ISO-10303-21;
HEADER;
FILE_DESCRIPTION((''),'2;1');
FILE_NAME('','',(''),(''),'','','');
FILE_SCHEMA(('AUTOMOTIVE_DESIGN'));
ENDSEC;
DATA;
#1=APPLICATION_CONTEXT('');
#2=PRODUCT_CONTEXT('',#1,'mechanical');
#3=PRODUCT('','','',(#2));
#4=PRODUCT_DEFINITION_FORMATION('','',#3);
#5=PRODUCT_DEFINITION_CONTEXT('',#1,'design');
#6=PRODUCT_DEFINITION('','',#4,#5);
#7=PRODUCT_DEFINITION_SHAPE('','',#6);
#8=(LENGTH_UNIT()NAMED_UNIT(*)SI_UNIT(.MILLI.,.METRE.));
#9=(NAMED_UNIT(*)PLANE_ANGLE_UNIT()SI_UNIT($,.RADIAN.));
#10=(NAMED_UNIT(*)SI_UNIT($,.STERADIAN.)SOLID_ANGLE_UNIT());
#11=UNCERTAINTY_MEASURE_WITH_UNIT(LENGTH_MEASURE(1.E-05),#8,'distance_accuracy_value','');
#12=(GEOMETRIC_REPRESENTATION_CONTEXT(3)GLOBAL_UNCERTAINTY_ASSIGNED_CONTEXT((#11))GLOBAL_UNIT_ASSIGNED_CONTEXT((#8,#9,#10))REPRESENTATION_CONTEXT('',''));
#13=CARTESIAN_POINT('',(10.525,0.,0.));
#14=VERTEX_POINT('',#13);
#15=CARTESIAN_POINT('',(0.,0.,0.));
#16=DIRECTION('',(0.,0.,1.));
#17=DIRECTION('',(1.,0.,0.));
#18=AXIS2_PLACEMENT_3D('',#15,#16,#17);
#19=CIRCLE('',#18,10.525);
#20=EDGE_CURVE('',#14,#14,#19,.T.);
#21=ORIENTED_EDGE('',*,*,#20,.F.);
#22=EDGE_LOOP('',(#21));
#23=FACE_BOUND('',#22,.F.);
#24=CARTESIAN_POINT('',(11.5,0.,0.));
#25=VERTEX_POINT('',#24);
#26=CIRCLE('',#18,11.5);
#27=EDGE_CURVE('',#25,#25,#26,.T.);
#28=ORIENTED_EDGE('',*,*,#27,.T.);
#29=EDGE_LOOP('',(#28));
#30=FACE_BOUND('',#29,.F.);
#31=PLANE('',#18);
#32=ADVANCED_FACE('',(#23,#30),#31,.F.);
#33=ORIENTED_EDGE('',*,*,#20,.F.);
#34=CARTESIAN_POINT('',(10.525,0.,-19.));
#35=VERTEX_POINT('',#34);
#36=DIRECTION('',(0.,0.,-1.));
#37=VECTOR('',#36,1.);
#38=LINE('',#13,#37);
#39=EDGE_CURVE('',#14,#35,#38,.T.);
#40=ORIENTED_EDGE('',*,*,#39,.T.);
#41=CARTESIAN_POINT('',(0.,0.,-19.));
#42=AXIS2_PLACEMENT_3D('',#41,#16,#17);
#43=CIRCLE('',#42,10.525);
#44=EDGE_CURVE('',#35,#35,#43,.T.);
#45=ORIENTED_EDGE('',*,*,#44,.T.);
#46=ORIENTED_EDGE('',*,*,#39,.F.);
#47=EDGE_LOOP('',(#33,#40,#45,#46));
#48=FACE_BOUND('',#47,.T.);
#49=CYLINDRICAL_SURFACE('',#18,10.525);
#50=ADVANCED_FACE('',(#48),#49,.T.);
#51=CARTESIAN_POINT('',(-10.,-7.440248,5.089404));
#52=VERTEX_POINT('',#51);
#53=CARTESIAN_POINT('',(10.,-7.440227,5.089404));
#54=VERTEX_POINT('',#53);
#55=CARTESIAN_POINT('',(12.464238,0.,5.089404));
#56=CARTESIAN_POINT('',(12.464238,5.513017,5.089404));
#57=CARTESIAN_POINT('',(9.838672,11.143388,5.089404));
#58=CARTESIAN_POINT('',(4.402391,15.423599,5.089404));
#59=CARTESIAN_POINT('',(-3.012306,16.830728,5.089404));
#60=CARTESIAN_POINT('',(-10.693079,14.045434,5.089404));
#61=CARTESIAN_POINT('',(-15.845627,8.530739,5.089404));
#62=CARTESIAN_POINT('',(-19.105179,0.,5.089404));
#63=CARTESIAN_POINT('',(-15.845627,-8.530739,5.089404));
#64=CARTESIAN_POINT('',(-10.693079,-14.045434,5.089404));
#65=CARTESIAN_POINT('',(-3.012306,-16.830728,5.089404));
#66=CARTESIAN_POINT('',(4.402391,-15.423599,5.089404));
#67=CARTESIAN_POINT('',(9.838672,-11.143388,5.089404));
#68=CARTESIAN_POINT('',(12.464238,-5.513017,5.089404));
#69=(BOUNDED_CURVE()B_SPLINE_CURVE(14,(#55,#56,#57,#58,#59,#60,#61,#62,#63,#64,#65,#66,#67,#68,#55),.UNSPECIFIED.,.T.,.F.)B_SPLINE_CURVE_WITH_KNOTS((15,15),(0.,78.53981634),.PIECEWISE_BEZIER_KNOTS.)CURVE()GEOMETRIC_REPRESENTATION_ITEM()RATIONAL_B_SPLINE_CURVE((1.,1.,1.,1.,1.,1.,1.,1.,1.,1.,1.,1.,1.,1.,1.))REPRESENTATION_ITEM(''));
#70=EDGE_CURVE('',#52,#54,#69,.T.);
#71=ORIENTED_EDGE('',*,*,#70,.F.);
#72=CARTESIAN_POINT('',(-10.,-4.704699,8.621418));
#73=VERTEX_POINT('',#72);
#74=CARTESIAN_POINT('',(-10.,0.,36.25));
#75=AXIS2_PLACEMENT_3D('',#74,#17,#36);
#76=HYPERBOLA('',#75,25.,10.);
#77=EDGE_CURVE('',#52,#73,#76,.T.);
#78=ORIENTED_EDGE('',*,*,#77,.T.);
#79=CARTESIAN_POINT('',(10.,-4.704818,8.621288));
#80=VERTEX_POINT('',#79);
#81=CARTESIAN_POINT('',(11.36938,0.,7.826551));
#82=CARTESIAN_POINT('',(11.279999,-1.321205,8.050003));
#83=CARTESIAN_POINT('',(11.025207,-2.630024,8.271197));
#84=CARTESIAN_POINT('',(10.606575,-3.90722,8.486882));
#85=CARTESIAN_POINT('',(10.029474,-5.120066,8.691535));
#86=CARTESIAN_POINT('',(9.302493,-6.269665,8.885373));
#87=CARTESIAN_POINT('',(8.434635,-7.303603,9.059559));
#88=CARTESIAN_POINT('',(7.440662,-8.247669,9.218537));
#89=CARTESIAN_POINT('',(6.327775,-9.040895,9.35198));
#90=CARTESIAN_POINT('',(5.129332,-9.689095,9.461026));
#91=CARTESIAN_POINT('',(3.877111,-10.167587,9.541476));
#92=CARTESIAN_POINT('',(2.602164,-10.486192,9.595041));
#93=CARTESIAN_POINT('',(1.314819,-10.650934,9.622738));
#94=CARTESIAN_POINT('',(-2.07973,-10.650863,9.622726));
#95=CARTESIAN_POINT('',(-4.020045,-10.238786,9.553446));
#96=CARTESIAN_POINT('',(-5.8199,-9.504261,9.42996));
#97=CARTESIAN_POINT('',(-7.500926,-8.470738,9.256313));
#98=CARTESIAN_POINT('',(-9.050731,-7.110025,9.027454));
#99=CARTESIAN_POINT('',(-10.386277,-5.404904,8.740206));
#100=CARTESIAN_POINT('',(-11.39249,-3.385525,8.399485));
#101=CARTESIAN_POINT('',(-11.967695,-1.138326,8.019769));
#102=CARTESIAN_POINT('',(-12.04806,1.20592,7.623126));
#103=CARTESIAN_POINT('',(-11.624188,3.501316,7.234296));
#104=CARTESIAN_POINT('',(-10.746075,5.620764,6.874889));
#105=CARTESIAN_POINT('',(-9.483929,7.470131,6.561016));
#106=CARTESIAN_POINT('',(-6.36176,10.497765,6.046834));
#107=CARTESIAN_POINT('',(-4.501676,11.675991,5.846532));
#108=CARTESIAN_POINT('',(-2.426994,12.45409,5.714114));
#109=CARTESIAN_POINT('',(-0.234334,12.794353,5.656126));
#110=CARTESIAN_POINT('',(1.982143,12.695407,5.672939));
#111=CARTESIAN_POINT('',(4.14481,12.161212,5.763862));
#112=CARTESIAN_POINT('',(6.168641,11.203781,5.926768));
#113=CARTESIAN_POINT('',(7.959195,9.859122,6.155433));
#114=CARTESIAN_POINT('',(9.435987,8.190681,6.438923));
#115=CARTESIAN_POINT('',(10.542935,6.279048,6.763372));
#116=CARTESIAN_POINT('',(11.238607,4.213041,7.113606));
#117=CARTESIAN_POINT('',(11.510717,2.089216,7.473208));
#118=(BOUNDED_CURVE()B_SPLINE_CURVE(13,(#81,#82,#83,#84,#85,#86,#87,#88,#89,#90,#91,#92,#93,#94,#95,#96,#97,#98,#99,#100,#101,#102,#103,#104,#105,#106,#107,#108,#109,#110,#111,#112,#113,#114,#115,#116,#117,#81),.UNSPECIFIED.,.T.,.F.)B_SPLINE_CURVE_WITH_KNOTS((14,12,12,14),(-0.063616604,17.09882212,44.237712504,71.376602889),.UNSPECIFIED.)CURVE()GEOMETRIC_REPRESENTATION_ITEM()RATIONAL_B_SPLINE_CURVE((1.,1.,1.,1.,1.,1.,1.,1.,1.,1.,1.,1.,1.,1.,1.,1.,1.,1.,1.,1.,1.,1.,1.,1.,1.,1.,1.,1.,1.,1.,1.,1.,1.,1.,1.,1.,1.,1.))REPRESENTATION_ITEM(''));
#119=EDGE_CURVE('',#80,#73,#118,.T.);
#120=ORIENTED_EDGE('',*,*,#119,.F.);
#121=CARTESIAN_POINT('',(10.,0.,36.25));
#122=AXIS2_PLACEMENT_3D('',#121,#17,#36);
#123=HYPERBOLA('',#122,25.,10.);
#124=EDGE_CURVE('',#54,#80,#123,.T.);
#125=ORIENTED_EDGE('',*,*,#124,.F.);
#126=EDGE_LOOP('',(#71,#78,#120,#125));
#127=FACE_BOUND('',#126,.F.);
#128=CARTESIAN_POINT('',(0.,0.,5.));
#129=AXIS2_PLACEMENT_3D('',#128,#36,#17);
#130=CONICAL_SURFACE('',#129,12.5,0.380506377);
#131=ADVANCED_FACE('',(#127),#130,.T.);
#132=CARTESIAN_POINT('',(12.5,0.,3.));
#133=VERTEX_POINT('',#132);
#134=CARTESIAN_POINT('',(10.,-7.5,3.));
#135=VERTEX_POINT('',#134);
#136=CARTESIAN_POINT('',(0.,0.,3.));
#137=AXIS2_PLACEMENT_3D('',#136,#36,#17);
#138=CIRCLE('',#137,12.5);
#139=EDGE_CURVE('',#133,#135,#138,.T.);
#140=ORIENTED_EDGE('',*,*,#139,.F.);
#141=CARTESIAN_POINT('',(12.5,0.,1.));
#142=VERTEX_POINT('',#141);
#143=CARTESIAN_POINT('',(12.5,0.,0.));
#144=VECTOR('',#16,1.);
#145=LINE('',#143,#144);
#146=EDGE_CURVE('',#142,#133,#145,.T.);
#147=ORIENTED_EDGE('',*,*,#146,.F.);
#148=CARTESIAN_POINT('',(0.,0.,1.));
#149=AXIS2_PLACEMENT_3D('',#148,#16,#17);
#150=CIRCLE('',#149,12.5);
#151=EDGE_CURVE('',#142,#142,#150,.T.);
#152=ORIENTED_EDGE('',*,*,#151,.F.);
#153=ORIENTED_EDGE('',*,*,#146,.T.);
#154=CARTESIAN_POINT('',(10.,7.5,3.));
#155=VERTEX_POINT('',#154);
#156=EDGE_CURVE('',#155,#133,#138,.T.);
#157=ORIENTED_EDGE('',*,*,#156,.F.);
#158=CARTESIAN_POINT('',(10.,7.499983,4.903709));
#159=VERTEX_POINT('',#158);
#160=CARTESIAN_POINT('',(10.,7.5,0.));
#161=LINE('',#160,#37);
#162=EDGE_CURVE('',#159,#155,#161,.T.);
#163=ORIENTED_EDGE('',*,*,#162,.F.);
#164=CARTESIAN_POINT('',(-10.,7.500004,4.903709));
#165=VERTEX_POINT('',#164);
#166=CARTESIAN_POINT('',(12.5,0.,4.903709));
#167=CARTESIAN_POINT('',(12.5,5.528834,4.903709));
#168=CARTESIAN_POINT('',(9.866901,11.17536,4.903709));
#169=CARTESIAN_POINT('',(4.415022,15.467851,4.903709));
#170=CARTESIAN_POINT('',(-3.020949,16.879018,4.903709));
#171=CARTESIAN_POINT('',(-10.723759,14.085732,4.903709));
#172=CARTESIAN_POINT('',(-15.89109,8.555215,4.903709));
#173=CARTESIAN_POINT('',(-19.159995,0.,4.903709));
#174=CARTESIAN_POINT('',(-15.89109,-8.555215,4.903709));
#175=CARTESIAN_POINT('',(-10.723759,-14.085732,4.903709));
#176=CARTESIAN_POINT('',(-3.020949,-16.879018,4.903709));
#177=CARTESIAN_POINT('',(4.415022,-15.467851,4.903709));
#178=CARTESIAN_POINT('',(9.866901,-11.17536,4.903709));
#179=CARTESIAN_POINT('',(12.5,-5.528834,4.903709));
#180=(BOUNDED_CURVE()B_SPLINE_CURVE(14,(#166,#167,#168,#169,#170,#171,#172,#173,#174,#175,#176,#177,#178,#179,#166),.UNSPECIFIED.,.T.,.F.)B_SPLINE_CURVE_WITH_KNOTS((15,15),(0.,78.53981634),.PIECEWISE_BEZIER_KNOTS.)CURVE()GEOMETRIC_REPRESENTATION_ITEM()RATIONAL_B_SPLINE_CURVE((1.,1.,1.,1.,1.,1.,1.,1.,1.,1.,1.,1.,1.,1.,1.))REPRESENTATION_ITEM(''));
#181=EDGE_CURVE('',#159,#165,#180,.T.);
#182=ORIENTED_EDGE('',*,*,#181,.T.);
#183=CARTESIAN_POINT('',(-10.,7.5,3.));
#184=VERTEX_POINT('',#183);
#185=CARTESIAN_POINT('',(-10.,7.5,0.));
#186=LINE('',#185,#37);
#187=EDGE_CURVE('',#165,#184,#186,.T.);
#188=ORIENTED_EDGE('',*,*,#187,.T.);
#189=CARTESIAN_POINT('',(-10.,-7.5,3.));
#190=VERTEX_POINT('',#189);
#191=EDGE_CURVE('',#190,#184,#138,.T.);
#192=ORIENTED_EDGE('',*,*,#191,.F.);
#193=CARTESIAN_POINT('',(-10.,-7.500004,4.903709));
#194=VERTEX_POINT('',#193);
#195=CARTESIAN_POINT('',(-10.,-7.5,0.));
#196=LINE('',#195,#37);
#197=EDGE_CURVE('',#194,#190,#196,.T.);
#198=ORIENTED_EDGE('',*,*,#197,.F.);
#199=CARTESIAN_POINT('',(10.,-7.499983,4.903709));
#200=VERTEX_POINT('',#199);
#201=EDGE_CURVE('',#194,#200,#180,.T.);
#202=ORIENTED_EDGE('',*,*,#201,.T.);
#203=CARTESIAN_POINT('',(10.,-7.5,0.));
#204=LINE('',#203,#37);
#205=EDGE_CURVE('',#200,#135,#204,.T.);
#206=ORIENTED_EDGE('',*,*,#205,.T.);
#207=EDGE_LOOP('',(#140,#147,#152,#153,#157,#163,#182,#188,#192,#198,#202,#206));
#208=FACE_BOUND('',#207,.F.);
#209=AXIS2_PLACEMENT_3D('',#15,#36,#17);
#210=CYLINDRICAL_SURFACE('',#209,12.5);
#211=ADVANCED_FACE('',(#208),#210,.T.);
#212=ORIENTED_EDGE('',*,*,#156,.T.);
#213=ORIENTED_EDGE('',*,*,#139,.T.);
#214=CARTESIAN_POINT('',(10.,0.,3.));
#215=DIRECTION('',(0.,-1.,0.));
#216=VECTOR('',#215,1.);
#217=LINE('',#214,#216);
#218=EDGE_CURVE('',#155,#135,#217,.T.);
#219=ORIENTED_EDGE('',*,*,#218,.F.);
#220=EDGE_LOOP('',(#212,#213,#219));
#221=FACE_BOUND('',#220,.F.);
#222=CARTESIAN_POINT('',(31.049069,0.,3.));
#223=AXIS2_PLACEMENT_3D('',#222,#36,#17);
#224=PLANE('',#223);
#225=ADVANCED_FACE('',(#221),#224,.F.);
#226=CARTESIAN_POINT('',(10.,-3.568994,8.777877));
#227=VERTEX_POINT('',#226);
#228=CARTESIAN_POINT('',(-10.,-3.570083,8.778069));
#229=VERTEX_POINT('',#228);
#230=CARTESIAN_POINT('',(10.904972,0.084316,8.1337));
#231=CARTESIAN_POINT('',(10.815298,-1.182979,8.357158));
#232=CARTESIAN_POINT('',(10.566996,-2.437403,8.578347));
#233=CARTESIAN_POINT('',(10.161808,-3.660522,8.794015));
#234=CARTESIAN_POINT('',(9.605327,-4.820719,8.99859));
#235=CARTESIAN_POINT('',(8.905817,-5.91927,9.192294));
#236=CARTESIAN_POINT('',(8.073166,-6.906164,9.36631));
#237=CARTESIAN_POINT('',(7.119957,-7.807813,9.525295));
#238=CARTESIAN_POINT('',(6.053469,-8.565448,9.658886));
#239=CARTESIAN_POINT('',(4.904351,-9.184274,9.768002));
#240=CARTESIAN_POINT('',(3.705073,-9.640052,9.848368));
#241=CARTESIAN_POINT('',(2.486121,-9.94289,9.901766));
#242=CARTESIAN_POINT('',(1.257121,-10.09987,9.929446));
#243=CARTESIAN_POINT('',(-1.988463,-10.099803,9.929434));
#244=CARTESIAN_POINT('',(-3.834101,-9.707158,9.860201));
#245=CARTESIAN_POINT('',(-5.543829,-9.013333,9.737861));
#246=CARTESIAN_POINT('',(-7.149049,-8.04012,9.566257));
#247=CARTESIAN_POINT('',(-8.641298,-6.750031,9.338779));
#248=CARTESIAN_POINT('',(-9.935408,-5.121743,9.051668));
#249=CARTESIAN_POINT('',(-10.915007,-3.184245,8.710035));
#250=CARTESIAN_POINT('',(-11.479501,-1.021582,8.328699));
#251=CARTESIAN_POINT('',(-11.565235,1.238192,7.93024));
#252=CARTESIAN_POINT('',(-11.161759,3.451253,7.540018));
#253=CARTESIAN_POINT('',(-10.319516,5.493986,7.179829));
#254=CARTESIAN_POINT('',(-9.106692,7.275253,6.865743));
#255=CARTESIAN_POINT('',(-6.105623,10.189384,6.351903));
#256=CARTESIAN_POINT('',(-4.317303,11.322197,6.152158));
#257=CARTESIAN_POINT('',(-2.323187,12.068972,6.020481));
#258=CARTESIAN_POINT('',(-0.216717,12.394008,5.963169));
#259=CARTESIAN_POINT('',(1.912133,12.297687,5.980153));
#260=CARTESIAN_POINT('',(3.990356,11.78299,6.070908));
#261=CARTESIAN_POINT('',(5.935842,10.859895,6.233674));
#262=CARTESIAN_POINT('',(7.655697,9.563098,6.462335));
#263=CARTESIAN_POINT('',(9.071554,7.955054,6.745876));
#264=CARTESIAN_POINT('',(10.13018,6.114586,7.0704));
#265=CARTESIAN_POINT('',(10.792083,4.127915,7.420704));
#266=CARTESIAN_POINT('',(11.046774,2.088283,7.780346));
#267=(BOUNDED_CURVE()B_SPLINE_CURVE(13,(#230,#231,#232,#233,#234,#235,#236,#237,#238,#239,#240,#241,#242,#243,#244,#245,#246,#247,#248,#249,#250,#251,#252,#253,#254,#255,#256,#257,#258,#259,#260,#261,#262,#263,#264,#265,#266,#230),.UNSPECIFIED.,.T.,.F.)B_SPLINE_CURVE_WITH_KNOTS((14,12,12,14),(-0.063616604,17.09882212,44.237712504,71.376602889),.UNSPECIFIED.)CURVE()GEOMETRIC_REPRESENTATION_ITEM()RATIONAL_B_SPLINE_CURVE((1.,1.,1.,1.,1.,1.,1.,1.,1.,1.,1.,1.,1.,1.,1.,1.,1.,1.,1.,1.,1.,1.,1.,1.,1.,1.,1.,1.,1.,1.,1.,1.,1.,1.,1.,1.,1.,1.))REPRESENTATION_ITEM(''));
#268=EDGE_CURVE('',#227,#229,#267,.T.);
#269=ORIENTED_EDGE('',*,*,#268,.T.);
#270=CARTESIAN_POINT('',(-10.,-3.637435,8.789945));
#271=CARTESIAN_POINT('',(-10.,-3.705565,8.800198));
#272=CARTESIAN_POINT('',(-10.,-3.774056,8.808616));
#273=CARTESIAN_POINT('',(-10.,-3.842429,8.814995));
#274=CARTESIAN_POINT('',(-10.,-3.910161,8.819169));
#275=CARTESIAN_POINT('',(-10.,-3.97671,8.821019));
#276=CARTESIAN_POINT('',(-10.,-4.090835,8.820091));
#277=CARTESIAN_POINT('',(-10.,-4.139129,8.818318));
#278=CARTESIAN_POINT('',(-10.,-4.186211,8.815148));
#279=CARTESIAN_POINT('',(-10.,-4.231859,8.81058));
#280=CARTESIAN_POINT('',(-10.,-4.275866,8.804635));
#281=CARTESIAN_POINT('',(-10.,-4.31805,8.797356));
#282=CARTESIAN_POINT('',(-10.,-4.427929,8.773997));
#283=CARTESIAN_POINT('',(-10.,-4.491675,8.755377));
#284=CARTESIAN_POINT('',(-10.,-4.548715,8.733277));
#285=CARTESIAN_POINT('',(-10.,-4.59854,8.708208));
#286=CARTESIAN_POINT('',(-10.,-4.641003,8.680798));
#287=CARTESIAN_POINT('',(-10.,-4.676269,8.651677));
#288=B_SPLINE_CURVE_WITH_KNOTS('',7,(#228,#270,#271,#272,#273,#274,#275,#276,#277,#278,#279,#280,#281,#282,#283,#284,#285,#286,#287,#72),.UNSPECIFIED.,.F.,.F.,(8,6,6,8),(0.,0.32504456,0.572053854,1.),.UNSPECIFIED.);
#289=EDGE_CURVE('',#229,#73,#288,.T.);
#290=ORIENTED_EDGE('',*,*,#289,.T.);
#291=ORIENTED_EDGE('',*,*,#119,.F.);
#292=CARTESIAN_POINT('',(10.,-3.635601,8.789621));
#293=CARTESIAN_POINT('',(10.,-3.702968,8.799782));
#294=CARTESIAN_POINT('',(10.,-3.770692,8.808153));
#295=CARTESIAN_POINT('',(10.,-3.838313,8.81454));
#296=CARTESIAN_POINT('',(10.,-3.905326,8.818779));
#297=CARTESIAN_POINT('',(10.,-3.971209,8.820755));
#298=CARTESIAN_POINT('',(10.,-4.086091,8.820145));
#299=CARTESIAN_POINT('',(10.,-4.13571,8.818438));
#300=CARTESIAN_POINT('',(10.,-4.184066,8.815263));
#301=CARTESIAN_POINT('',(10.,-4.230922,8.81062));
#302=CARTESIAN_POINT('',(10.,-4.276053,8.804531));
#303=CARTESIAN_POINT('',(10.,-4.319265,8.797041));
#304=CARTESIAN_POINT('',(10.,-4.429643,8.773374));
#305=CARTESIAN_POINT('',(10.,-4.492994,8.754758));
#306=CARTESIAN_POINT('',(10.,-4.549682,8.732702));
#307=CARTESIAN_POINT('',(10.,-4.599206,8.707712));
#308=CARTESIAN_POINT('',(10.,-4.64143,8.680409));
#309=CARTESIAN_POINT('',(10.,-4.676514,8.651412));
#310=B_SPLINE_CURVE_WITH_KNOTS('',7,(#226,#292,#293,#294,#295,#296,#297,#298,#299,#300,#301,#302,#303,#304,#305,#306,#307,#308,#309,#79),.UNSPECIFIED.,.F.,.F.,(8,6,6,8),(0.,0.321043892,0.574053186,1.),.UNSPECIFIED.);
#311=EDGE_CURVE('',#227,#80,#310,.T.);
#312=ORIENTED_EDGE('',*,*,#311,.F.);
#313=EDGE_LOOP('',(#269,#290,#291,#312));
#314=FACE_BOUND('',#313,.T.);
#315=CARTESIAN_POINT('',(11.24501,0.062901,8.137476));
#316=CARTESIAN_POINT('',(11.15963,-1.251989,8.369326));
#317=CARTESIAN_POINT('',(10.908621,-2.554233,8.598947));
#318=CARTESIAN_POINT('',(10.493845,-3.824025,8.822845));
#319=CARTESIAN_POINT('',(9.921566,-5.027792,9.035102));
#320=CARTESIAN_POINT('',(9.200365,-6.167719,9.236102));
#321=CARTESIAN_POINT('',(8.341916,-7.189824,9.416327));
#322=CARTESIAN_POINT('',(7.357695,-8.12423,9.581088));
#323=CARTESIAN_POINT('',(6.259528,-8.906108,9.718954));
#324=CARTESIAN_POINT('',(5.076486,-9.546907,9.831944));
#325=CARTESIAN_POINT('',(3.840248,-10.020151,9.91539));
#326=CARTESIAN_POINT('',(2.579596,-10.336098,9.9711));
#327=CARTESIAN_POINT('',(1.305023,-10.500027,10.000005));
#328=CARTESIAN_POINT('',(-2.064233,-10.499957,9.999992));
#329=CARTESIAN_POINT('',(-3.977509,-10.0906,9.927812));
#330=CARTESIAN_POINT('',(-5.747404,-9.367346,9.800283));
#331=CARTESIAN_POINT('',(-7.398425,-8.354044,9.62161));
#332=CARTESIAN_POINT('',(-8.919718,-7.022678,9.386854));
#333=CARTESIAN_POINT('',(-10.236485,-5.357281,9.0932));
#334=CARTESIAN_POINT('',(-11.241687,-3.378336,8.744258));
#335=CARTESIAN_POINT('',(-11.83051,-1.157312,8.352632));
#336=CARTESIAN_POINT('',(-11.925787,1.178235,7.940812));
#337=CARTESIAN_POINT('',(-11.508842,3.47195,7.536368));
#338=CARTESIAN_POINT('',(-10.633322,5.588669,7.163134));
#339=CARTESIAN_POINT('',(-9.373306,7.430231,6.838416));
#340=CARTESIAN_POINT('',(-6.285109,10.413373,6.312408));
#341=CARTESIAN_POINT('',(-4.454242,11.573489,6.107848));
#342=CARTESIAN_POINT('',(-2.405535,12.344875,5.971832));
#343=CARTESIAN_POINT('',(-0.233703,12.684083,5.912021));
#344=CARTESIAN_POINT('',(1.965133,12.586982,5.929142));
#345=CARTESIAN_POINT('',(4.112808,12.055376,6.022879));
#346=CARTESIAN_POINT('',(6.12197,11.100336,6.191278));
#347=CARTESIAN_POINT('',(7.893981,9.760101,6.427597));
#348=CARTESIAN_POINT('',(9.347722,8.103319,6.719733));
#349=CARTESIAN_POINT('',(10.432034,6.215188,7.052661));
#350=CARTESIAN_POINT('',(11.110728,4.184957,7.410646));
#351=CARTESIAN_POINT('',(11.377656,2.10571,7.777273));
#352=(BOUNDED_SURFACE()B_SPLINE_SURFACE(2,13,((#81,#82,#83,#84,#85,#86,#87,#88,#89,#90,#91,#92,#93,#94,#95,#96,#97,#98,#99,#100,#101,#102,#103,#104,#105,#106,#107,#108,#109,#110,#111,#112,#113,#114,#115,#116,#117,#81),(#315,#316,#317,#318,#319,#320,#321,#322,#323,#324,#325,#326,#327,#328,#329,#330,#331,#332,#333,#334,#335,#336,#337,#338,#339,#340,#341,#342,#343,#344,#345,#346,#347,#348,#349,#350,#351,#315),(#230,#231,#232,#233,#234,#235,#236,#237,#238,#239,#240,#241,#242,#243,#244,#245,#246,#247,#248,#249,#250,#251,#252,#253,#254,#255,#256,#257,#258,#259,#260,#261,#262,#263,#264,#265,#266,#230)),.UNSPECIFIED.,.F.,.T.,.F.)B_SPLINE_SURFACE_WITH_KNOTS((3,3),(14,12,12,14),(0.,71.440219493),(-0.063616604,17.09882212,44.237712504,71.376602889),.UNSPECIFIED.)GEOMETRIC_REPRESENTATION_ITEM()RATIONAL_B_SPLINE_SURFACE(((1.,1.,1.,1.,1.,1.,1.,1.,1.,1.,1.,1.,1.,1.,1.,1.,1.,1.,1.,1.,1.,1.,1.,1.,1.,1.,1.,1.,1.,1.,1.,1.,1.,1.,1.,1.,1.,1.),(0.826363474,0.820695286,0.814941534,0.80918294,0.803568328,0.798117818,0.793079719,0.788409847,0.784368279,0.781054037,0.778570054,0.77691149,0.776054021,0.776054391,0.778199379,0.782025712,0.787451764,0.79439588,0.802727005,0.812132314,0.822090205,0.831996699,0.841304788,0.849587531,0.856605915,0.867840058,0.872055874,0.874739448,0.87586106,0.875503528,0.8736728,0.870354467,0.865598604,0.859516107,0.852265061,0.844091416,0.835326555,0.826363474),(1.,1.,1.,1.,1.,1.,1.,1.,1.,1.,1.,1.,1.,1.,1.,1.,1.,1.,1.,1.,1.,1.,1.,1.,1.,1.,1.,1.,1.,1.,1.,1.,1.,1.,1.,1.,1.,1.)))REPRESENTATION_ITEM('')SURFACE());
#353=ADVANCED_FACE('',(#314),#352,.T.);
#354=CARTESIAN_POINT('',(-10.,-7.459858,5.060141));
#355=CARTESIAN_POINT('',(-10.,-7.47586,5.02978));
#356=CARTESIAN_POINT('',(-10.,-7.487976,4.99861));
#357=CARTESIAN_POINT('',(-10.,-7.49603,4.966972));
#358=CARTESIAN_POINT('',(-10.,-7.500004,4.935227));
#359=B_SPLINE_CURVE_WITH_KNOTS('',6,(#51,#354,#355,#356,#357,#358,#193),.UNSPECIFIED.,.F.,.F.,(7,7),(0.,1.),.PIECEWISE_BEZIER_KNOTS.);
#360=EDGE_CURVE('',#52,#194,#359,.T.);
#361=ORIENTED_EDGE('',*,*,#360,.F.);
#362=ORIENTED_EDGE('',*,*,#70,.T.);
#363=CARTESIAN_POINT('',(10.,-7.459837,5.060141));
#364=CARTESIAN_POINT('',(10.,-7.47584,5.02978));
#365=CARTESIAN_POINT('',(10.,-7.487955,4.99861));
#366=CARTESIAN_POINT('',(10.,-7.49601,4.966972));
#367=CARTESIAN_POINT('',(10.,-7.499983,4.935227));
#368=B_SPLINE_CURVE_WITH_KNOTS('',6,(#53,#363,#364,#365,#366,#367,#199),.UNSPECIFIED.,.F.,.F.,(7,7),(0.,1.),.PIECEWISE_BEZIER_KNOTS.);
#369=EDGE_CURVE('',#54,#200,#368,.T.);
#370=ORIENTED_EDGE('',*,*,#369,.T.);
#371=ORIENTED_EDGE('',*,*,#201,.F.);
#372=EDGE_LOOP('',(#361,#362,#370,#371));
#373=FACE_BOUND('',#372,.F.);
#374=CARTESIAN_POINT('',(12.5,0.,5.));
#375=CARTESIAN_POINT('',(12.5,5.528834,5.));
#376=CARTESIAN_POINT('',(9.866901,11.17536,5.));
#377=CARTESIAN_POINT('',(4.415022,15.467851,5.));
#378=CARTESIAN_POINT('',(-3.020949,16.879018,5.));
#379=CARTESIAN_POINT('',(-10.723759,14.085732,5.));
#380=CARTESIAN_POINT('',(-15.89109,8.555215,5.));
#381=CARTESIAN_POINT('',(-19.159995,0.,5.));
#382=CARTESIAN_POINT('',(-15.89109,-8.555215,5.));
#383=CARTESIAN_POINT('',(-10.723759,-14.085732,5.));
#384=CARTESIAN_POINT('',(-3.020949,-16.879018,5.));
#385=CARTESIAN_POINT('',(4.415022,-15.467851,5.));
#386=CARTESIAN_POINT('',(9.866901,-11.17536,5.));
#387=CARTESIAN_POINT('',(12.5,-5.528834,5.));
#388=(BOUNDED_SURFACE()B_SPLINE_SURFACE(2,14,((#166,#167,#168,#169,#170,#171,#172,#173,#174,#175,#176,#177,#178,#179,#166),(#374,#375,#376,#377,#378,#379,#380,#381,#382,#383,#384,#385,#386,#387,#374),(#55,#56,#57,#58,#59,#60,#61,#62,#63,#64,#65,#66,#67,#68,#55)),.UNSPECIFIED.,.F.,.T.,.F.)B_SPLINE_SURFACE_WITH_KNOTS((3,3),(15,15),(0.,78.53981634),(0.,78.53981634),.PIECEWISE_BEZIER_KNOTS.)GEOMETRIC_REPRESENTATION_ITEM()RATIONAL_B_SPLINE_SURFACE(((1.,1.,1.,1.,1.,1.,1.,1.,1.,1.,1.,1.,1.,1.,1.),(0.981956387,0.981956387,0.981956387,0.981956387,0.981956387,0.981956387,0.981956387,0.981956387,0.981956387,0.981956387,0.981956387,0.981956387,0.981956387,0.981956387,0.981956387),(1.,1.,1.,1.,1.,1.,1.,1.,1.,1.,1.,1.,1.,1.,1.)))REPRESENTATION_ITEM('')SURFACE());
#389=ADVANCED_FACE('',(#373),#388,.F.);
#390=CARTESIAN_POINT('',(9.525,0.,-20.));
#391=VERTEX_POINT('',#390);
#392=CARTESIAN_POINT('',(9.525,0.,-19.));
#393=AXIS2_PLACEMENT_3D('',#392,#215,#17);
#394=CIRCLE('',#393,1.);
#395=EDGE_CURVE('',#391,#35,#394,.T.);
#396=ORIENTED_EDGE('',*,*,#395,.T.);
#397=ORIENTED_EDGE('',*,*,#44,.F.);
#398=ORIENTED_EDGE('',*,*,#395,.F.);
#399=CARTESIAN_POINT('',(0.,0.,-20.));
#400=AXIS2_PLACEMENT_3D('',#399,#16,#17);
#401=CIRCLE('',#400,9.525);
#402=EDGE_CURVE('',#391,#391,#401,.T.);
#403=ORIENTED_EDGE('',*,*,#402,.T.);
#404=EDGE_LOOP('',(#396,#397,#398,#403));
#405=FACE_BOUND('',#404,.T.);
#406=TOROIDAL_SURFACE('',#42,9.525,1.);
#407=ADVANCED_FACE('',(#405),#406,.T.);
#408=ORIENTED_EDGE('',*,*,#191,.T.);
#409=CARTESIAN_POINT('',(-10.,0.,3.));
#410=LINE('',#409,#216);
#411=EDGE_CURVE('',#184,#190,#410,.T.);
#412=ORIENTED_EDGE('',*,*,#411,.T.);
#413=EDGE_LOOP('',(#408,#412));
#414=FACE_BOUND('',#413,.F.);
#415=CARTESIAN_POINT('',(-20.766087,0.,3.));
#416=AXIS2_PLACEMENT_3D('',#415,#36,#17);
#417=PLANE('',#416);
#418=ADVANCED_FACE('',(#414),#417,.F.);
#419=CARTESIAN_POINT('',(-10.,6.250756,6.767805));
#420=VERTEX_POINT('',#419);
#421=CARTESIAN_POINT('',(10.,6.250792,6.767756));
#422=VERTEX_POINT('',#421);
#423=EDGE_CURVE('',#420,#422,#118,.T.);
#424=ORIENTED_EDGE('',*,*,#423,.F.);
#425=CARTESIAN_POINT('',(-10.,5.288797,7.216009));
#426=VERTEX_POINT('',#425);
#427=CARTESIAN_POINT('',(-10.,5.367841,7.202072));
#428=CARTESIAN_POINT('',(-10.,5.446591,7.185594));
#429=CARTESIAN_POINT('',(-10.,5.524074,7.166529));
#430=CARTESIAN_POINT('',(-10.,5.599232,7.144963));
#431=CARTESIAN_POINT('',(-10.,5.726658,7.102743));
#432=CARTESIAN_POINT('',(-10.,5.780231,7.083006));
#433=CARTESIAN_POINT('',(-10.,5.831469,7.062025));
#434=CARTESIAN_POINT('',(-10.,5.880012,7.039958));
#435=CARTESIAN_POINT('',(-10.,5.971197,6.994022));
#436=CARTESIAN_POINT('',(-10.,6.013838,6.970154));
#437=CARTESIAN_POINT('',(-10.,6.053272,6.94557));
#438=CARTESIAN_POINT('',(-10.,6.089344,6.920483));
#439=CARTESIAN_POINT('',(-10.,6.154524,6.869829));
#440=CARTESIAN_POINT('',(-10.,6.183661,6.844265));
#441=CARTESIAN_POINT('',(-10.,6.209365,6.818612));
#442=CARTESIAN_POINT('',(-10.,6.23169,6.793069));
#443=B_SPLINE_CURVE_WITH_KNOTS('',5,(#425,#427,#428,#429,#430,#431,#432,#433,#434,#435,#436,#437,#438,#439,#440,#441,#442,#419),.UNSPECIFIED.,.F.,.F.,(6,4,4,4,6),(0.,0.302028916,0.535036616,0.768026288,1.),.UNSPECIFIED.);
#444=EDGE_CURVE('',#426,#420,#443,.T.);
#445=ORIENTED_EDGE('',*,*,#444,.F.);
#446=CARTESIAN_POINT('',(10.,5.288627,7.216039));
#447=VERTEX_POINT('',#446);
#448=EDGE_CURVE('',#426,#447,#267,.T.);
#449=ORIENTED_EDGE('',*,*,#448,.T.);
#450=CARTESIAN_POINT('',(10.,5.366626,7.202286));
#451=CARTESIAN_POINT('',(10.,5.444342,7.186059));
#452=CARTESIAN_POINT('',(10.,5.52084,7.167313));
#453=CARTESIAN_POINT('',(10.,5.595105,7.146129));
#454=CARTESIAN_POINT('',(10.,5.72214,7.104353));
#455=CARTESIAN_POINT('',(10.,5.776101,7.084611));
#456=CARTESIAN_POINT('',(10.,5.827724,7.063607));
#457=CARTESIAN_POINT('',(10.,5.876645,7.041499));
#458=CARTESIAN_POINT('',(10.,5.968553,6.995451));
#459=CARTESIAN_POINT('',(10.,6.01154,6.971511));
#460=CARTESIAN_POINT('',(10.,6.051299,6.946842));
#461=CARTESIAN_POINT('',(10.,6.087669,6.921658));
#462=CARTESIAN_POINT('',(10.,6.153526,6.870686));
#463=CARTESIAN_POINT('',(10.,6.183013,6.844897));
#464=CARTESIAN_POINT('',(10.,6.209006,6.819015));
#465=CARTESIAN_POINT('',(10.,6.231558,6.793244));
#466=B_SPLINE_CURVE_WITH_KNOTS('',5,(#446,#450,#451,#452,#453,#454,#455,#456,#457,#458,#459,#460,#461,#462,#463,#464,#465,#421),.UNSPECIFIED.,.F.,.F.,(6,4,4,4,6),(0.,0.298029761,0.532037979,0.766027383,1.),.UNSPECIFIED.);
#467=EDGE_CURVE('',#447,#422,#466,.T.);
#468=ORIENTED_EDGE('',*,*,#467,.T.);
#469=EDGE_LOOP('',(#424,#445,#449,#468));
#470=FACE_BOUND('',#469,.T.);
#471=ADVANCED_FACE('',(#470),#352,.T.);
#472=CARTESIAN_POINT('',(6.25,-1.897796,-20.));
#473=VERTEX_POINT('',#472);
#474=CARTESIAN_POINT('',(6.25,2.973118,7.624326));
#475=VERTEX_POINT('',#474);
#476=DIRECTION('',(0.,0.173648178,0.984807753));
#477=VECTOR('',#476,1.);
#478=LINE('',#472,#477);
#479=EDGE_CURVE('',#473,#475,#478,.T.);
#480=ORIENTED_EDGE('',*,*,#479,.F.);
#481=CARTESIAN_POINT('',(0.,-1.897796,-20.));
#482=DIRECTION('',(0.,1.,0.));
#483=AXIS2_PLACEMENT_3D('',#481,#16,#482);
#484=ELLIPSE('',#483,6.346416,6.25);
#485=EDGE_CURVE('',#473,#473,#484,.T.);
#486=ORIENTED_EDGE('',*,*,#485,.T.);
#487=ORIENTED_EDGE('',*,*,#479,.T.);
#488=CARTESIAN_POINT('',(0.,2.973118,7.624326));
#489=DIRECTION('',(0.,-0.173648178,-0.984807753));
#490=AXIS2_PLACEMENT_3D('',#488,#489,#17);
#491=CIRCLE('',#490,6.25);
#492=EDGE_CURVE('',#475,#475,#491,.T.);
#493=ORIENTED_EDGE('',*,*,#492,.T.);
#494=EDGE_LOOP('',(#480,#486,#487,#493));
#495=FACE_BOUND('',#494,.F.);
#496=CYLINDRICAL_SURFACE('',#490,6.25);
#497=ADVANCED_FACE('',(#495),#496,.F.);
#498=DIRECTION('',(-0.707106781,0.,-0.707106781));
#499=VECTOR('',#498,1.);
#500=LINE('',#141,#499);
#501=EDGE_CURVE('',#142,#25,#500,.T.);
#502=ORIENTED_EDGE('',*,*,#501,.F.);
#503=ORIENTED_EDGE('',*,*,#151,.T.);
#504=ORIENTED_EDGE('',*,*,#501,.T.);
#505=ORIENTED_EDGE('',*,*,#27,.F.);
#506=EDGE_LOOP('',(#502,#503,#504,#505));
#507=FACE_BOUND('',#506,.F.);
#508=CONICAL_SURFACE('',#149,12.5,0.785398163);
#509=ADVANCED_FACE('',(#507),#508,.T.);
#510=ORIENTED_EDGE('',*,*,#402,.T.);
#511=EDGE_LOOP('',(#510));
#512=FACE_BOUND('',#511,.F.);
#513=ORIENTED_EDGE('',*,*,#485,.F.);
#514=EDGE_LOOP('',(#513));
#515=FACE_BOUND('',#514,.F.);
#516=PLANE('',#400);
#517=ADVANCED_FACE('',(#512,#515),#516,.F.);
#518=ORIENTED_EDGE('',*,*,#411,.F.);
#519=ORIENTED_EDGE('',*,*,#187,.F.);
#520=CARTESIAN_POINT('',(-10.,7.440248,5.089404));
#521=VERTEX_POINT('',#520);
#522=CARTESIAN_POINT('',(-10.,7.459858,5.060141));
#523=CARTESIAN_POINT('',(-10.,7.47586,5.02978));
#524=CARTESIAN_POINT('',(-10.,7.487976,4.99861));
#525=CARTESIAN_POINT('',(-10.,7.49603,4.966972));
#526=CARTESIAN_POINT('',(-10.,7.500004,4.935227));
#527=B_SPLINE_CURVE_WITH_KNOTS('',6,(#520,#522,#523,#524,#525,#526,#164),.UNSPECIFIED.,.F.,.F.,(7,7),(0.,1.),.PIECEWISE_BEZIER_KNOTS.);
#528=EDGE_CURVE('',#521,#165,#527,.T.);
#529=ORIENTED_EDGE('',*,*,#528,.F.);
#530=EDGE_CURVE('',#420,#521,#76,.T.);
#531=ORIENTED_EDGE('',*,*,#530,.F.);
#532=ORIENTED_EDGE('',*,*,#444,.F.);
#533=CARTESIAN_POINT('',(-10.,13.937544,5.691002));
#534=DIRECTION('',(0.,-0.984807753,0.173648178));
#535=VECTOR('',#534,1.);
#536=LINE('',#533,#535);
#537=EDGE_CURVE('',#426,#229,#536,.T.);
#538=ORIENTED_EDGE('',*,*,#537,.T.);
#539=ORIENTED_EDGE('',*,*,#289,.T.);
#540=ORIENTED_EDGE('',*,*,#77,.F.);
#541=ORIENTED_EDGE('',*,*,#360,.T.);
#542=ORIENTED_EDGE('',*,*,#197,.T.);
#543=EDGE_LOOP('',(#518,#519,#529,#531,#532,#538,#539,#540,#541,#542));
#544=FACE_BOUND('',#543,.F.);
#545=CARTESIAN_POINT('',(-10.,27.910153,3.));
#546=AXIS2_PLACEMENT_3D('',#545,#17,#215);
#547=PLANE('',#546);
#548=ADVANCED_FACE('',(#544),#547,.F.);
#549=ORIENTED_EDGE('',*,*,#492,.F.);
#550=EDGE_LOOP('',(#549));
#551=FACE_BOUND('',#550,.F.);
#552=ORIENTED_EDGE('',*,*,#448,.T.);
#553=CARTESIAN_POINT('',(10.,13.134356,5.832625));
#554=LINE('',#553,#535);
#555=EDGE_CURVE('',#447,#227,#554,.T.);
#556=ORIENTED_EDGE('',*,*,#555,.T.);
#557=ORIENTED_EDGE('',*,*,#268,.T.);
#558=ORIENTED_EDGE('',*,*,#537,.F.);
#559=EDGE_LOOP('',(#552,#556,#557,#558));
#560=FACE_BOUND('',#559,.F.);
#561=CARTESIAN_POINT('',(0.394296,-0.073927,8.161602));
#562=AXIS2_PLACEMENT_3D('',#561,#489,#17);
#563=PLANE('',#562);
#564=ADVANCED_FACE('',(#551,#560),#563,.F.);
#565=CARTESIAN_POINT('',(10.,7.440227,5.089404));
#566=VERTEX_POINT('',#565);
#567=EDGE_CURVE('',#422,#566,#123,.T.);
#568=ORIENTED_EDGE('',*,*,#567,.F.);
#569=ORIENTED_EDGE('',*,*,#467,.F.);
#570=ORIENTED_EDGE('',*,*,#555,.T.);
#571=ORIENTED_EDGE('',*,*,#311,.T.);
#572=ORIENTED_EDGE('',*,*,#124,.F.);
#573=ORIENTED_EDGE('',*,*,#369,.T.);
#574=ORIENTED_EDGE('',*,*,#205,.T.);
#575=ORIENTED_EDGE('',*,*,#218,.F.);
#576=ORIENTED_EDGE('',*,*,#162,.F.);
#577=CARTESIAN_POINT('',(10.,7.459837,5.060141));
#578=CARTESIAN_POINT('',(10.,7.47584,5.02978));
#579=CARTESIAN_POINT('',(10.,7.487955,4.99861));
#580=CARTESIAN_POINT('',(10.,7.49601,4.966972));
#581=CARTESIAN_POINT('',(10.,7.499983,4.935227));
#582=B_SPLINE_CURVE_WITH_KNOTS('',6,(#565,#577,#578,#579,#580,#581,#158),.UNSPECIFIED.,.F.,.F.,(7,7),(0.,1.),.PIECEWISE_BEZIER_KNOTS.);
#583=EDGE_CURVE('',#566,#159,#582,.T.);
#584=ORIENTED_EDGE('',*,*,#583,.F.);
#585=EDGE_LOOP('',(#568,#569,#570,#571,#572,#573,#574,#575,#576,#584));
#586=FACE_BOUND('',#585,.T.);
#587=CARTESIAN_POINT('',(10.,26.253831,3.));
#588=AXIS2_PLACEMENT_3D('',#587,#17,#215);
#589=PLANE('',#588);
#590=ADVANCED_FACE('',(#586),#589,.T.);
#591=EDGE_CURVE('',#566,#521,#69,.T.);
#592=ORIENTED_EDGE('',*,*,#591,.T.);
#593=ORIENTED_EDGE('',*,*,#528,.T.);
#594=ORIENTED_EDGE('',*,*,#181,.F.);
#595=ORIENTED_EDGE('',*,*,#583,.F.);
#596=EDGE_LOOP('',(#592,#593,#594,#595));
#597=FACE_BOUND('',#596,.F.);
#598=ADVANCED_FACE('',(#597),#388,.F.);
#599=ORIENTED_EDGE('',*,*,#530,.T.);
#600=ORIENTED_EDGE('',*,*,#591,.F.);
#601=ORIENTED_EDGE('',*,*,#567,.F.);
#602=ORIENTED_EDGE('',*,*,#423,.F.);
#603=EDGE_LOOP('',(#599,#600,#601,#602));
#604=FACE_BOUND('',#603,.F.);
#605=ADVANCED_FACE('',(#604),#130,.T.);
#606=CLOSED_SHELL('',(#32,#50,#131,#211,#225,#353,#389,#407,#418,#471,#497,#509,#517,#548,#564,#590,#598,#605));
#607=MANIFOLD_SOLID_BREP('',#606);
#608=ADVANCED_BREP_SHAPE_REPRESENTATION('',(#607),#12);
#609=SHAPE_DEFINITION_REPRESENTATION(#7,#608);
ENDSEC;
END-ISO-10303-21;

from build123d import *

# Parameters (mm, degrees)
F0_R           = 10.525
F1_DEPTH       = 20
F3_R           = 12.5
F4_DEPTH       = 10
F5_SIZE2       = 5
F5_SIZE        = 2
F8_SIZE        = 1
F9_R           = 0.5
F12_R          = 6.25
F13_DEPTH      = 29.8925289631
F13_DEPTH_BACK = 3.9949082022
F14_W          = 35.6293991208
F14_H          = 33.7468273938
F15_DEPTH      = 3.9949082022
F16_R          = 0.5
F18_W          = 42.0981385947
F18_H          = 52.5076624169
F18_W_2        = 21.5321744272
F18_H_2        = 55.8203060705
F19_DEPTH      = 6.9380379737
F20_R          = 1


with BuildPart() as f1:
    # F0 (on Top) → F1 (new body)
    with BuildSketch(Plane.XY):
        Circle(F0_R)
    extrude(amount=-F1_DEPTH)

    # F3 (on face) → F4 (join)
    with BuildSketch(Plane.XY):
        Circle(F3_R)
    extrude(amount=F4_DEPTH)

    # F5
    f5_edges = [f1.edges().sort_by_distance(p)[0] for p in [
        (-12.5, 0, 10),
    ]]
    f5_side = f1.faces().sort_by_distance((0, 0, 10))[0]
    chamfer(f5_edges, length=F5_SIZE, length2=F5_SIZE2, reference=f5_side)

    # F8
    f8_edges = [f1.edges().sort_by_distance(p)[0] for p in [
        (-12.5, 0, 0),
    ]]
    chamfer(f8_edges, length=F8_SIZE)

    # F9
    f9_edges = [f1.edges().sort_by_distance(p)[0] for p in [
        (-12.5, 0, 5),
    ]]
    fillet(f9_edges, radius=F9_R)

    # F12 (on face) → F13 (cut, two sides)
    with BuildSketch(Plane(origin=(0, 1.3934869758, 7.9028573515), x_dir=(1, 0, 0), z_dir=(0, -0.1736481777, -0.984807753))) as f13_sk:
        with Locations((0, -1.60399963)):
            Circle(F12_R)
    extrude(amount=F13_DEPTH, mode=Mode.SUBTRACT)
    extrude(f13_sk.sketch, amount=-F13_DEPTH_BACK, mode=Mode.SUBTRACT)

    # F14 (on face) → F15 (cut, through all)
    with BuildSketch(Plane(origin=(0, 1.3934869758, 7.9028573515), x_dir=(1, 0, 0), z_dir=(0, -0.1736481777, -0.984807753))):
        with Locations((0.3942959011, 1.4900509268)):
            Rectangle(F14_W, F14_H)
    extrude(amount=-F15_DEPTH, mode=Mode.SUBTRACT)

    # F16
    f16_edges = [f1.edges().sort_by_distance(p)[0] for p in [
        (7.715975, -7.436279, 9.459783),
        (-7.715975, 9.029819, 6.556366),
    ]]
    fillet(f16_edges, radius=F16_R)

    # F18 (on offset) → F19 (cut, through all)
    with BuildSketch(Plane(origin=(0, 0, 3), x_dir=(1, 0, 0), z_dir=(0, 0, -1))):
        with Locations((31.0490692973, 0)):
            Rectangle(F18_W, F18_H)
        with Locations((-20.7660872136, 0)):
            Rectangle(F18_W_2, F18_H_2)
    extrude(amount=-F19_DEPTH, mode=Mode.SUBTRACT)

    # F20
    f20_edges = [f1.edges().sort_by_distance(p)[0] for p in [
        (-10.525, 0, -20),
    ]]
    fillet(f20_edges, radius=F20_R)


solid = f1.part
